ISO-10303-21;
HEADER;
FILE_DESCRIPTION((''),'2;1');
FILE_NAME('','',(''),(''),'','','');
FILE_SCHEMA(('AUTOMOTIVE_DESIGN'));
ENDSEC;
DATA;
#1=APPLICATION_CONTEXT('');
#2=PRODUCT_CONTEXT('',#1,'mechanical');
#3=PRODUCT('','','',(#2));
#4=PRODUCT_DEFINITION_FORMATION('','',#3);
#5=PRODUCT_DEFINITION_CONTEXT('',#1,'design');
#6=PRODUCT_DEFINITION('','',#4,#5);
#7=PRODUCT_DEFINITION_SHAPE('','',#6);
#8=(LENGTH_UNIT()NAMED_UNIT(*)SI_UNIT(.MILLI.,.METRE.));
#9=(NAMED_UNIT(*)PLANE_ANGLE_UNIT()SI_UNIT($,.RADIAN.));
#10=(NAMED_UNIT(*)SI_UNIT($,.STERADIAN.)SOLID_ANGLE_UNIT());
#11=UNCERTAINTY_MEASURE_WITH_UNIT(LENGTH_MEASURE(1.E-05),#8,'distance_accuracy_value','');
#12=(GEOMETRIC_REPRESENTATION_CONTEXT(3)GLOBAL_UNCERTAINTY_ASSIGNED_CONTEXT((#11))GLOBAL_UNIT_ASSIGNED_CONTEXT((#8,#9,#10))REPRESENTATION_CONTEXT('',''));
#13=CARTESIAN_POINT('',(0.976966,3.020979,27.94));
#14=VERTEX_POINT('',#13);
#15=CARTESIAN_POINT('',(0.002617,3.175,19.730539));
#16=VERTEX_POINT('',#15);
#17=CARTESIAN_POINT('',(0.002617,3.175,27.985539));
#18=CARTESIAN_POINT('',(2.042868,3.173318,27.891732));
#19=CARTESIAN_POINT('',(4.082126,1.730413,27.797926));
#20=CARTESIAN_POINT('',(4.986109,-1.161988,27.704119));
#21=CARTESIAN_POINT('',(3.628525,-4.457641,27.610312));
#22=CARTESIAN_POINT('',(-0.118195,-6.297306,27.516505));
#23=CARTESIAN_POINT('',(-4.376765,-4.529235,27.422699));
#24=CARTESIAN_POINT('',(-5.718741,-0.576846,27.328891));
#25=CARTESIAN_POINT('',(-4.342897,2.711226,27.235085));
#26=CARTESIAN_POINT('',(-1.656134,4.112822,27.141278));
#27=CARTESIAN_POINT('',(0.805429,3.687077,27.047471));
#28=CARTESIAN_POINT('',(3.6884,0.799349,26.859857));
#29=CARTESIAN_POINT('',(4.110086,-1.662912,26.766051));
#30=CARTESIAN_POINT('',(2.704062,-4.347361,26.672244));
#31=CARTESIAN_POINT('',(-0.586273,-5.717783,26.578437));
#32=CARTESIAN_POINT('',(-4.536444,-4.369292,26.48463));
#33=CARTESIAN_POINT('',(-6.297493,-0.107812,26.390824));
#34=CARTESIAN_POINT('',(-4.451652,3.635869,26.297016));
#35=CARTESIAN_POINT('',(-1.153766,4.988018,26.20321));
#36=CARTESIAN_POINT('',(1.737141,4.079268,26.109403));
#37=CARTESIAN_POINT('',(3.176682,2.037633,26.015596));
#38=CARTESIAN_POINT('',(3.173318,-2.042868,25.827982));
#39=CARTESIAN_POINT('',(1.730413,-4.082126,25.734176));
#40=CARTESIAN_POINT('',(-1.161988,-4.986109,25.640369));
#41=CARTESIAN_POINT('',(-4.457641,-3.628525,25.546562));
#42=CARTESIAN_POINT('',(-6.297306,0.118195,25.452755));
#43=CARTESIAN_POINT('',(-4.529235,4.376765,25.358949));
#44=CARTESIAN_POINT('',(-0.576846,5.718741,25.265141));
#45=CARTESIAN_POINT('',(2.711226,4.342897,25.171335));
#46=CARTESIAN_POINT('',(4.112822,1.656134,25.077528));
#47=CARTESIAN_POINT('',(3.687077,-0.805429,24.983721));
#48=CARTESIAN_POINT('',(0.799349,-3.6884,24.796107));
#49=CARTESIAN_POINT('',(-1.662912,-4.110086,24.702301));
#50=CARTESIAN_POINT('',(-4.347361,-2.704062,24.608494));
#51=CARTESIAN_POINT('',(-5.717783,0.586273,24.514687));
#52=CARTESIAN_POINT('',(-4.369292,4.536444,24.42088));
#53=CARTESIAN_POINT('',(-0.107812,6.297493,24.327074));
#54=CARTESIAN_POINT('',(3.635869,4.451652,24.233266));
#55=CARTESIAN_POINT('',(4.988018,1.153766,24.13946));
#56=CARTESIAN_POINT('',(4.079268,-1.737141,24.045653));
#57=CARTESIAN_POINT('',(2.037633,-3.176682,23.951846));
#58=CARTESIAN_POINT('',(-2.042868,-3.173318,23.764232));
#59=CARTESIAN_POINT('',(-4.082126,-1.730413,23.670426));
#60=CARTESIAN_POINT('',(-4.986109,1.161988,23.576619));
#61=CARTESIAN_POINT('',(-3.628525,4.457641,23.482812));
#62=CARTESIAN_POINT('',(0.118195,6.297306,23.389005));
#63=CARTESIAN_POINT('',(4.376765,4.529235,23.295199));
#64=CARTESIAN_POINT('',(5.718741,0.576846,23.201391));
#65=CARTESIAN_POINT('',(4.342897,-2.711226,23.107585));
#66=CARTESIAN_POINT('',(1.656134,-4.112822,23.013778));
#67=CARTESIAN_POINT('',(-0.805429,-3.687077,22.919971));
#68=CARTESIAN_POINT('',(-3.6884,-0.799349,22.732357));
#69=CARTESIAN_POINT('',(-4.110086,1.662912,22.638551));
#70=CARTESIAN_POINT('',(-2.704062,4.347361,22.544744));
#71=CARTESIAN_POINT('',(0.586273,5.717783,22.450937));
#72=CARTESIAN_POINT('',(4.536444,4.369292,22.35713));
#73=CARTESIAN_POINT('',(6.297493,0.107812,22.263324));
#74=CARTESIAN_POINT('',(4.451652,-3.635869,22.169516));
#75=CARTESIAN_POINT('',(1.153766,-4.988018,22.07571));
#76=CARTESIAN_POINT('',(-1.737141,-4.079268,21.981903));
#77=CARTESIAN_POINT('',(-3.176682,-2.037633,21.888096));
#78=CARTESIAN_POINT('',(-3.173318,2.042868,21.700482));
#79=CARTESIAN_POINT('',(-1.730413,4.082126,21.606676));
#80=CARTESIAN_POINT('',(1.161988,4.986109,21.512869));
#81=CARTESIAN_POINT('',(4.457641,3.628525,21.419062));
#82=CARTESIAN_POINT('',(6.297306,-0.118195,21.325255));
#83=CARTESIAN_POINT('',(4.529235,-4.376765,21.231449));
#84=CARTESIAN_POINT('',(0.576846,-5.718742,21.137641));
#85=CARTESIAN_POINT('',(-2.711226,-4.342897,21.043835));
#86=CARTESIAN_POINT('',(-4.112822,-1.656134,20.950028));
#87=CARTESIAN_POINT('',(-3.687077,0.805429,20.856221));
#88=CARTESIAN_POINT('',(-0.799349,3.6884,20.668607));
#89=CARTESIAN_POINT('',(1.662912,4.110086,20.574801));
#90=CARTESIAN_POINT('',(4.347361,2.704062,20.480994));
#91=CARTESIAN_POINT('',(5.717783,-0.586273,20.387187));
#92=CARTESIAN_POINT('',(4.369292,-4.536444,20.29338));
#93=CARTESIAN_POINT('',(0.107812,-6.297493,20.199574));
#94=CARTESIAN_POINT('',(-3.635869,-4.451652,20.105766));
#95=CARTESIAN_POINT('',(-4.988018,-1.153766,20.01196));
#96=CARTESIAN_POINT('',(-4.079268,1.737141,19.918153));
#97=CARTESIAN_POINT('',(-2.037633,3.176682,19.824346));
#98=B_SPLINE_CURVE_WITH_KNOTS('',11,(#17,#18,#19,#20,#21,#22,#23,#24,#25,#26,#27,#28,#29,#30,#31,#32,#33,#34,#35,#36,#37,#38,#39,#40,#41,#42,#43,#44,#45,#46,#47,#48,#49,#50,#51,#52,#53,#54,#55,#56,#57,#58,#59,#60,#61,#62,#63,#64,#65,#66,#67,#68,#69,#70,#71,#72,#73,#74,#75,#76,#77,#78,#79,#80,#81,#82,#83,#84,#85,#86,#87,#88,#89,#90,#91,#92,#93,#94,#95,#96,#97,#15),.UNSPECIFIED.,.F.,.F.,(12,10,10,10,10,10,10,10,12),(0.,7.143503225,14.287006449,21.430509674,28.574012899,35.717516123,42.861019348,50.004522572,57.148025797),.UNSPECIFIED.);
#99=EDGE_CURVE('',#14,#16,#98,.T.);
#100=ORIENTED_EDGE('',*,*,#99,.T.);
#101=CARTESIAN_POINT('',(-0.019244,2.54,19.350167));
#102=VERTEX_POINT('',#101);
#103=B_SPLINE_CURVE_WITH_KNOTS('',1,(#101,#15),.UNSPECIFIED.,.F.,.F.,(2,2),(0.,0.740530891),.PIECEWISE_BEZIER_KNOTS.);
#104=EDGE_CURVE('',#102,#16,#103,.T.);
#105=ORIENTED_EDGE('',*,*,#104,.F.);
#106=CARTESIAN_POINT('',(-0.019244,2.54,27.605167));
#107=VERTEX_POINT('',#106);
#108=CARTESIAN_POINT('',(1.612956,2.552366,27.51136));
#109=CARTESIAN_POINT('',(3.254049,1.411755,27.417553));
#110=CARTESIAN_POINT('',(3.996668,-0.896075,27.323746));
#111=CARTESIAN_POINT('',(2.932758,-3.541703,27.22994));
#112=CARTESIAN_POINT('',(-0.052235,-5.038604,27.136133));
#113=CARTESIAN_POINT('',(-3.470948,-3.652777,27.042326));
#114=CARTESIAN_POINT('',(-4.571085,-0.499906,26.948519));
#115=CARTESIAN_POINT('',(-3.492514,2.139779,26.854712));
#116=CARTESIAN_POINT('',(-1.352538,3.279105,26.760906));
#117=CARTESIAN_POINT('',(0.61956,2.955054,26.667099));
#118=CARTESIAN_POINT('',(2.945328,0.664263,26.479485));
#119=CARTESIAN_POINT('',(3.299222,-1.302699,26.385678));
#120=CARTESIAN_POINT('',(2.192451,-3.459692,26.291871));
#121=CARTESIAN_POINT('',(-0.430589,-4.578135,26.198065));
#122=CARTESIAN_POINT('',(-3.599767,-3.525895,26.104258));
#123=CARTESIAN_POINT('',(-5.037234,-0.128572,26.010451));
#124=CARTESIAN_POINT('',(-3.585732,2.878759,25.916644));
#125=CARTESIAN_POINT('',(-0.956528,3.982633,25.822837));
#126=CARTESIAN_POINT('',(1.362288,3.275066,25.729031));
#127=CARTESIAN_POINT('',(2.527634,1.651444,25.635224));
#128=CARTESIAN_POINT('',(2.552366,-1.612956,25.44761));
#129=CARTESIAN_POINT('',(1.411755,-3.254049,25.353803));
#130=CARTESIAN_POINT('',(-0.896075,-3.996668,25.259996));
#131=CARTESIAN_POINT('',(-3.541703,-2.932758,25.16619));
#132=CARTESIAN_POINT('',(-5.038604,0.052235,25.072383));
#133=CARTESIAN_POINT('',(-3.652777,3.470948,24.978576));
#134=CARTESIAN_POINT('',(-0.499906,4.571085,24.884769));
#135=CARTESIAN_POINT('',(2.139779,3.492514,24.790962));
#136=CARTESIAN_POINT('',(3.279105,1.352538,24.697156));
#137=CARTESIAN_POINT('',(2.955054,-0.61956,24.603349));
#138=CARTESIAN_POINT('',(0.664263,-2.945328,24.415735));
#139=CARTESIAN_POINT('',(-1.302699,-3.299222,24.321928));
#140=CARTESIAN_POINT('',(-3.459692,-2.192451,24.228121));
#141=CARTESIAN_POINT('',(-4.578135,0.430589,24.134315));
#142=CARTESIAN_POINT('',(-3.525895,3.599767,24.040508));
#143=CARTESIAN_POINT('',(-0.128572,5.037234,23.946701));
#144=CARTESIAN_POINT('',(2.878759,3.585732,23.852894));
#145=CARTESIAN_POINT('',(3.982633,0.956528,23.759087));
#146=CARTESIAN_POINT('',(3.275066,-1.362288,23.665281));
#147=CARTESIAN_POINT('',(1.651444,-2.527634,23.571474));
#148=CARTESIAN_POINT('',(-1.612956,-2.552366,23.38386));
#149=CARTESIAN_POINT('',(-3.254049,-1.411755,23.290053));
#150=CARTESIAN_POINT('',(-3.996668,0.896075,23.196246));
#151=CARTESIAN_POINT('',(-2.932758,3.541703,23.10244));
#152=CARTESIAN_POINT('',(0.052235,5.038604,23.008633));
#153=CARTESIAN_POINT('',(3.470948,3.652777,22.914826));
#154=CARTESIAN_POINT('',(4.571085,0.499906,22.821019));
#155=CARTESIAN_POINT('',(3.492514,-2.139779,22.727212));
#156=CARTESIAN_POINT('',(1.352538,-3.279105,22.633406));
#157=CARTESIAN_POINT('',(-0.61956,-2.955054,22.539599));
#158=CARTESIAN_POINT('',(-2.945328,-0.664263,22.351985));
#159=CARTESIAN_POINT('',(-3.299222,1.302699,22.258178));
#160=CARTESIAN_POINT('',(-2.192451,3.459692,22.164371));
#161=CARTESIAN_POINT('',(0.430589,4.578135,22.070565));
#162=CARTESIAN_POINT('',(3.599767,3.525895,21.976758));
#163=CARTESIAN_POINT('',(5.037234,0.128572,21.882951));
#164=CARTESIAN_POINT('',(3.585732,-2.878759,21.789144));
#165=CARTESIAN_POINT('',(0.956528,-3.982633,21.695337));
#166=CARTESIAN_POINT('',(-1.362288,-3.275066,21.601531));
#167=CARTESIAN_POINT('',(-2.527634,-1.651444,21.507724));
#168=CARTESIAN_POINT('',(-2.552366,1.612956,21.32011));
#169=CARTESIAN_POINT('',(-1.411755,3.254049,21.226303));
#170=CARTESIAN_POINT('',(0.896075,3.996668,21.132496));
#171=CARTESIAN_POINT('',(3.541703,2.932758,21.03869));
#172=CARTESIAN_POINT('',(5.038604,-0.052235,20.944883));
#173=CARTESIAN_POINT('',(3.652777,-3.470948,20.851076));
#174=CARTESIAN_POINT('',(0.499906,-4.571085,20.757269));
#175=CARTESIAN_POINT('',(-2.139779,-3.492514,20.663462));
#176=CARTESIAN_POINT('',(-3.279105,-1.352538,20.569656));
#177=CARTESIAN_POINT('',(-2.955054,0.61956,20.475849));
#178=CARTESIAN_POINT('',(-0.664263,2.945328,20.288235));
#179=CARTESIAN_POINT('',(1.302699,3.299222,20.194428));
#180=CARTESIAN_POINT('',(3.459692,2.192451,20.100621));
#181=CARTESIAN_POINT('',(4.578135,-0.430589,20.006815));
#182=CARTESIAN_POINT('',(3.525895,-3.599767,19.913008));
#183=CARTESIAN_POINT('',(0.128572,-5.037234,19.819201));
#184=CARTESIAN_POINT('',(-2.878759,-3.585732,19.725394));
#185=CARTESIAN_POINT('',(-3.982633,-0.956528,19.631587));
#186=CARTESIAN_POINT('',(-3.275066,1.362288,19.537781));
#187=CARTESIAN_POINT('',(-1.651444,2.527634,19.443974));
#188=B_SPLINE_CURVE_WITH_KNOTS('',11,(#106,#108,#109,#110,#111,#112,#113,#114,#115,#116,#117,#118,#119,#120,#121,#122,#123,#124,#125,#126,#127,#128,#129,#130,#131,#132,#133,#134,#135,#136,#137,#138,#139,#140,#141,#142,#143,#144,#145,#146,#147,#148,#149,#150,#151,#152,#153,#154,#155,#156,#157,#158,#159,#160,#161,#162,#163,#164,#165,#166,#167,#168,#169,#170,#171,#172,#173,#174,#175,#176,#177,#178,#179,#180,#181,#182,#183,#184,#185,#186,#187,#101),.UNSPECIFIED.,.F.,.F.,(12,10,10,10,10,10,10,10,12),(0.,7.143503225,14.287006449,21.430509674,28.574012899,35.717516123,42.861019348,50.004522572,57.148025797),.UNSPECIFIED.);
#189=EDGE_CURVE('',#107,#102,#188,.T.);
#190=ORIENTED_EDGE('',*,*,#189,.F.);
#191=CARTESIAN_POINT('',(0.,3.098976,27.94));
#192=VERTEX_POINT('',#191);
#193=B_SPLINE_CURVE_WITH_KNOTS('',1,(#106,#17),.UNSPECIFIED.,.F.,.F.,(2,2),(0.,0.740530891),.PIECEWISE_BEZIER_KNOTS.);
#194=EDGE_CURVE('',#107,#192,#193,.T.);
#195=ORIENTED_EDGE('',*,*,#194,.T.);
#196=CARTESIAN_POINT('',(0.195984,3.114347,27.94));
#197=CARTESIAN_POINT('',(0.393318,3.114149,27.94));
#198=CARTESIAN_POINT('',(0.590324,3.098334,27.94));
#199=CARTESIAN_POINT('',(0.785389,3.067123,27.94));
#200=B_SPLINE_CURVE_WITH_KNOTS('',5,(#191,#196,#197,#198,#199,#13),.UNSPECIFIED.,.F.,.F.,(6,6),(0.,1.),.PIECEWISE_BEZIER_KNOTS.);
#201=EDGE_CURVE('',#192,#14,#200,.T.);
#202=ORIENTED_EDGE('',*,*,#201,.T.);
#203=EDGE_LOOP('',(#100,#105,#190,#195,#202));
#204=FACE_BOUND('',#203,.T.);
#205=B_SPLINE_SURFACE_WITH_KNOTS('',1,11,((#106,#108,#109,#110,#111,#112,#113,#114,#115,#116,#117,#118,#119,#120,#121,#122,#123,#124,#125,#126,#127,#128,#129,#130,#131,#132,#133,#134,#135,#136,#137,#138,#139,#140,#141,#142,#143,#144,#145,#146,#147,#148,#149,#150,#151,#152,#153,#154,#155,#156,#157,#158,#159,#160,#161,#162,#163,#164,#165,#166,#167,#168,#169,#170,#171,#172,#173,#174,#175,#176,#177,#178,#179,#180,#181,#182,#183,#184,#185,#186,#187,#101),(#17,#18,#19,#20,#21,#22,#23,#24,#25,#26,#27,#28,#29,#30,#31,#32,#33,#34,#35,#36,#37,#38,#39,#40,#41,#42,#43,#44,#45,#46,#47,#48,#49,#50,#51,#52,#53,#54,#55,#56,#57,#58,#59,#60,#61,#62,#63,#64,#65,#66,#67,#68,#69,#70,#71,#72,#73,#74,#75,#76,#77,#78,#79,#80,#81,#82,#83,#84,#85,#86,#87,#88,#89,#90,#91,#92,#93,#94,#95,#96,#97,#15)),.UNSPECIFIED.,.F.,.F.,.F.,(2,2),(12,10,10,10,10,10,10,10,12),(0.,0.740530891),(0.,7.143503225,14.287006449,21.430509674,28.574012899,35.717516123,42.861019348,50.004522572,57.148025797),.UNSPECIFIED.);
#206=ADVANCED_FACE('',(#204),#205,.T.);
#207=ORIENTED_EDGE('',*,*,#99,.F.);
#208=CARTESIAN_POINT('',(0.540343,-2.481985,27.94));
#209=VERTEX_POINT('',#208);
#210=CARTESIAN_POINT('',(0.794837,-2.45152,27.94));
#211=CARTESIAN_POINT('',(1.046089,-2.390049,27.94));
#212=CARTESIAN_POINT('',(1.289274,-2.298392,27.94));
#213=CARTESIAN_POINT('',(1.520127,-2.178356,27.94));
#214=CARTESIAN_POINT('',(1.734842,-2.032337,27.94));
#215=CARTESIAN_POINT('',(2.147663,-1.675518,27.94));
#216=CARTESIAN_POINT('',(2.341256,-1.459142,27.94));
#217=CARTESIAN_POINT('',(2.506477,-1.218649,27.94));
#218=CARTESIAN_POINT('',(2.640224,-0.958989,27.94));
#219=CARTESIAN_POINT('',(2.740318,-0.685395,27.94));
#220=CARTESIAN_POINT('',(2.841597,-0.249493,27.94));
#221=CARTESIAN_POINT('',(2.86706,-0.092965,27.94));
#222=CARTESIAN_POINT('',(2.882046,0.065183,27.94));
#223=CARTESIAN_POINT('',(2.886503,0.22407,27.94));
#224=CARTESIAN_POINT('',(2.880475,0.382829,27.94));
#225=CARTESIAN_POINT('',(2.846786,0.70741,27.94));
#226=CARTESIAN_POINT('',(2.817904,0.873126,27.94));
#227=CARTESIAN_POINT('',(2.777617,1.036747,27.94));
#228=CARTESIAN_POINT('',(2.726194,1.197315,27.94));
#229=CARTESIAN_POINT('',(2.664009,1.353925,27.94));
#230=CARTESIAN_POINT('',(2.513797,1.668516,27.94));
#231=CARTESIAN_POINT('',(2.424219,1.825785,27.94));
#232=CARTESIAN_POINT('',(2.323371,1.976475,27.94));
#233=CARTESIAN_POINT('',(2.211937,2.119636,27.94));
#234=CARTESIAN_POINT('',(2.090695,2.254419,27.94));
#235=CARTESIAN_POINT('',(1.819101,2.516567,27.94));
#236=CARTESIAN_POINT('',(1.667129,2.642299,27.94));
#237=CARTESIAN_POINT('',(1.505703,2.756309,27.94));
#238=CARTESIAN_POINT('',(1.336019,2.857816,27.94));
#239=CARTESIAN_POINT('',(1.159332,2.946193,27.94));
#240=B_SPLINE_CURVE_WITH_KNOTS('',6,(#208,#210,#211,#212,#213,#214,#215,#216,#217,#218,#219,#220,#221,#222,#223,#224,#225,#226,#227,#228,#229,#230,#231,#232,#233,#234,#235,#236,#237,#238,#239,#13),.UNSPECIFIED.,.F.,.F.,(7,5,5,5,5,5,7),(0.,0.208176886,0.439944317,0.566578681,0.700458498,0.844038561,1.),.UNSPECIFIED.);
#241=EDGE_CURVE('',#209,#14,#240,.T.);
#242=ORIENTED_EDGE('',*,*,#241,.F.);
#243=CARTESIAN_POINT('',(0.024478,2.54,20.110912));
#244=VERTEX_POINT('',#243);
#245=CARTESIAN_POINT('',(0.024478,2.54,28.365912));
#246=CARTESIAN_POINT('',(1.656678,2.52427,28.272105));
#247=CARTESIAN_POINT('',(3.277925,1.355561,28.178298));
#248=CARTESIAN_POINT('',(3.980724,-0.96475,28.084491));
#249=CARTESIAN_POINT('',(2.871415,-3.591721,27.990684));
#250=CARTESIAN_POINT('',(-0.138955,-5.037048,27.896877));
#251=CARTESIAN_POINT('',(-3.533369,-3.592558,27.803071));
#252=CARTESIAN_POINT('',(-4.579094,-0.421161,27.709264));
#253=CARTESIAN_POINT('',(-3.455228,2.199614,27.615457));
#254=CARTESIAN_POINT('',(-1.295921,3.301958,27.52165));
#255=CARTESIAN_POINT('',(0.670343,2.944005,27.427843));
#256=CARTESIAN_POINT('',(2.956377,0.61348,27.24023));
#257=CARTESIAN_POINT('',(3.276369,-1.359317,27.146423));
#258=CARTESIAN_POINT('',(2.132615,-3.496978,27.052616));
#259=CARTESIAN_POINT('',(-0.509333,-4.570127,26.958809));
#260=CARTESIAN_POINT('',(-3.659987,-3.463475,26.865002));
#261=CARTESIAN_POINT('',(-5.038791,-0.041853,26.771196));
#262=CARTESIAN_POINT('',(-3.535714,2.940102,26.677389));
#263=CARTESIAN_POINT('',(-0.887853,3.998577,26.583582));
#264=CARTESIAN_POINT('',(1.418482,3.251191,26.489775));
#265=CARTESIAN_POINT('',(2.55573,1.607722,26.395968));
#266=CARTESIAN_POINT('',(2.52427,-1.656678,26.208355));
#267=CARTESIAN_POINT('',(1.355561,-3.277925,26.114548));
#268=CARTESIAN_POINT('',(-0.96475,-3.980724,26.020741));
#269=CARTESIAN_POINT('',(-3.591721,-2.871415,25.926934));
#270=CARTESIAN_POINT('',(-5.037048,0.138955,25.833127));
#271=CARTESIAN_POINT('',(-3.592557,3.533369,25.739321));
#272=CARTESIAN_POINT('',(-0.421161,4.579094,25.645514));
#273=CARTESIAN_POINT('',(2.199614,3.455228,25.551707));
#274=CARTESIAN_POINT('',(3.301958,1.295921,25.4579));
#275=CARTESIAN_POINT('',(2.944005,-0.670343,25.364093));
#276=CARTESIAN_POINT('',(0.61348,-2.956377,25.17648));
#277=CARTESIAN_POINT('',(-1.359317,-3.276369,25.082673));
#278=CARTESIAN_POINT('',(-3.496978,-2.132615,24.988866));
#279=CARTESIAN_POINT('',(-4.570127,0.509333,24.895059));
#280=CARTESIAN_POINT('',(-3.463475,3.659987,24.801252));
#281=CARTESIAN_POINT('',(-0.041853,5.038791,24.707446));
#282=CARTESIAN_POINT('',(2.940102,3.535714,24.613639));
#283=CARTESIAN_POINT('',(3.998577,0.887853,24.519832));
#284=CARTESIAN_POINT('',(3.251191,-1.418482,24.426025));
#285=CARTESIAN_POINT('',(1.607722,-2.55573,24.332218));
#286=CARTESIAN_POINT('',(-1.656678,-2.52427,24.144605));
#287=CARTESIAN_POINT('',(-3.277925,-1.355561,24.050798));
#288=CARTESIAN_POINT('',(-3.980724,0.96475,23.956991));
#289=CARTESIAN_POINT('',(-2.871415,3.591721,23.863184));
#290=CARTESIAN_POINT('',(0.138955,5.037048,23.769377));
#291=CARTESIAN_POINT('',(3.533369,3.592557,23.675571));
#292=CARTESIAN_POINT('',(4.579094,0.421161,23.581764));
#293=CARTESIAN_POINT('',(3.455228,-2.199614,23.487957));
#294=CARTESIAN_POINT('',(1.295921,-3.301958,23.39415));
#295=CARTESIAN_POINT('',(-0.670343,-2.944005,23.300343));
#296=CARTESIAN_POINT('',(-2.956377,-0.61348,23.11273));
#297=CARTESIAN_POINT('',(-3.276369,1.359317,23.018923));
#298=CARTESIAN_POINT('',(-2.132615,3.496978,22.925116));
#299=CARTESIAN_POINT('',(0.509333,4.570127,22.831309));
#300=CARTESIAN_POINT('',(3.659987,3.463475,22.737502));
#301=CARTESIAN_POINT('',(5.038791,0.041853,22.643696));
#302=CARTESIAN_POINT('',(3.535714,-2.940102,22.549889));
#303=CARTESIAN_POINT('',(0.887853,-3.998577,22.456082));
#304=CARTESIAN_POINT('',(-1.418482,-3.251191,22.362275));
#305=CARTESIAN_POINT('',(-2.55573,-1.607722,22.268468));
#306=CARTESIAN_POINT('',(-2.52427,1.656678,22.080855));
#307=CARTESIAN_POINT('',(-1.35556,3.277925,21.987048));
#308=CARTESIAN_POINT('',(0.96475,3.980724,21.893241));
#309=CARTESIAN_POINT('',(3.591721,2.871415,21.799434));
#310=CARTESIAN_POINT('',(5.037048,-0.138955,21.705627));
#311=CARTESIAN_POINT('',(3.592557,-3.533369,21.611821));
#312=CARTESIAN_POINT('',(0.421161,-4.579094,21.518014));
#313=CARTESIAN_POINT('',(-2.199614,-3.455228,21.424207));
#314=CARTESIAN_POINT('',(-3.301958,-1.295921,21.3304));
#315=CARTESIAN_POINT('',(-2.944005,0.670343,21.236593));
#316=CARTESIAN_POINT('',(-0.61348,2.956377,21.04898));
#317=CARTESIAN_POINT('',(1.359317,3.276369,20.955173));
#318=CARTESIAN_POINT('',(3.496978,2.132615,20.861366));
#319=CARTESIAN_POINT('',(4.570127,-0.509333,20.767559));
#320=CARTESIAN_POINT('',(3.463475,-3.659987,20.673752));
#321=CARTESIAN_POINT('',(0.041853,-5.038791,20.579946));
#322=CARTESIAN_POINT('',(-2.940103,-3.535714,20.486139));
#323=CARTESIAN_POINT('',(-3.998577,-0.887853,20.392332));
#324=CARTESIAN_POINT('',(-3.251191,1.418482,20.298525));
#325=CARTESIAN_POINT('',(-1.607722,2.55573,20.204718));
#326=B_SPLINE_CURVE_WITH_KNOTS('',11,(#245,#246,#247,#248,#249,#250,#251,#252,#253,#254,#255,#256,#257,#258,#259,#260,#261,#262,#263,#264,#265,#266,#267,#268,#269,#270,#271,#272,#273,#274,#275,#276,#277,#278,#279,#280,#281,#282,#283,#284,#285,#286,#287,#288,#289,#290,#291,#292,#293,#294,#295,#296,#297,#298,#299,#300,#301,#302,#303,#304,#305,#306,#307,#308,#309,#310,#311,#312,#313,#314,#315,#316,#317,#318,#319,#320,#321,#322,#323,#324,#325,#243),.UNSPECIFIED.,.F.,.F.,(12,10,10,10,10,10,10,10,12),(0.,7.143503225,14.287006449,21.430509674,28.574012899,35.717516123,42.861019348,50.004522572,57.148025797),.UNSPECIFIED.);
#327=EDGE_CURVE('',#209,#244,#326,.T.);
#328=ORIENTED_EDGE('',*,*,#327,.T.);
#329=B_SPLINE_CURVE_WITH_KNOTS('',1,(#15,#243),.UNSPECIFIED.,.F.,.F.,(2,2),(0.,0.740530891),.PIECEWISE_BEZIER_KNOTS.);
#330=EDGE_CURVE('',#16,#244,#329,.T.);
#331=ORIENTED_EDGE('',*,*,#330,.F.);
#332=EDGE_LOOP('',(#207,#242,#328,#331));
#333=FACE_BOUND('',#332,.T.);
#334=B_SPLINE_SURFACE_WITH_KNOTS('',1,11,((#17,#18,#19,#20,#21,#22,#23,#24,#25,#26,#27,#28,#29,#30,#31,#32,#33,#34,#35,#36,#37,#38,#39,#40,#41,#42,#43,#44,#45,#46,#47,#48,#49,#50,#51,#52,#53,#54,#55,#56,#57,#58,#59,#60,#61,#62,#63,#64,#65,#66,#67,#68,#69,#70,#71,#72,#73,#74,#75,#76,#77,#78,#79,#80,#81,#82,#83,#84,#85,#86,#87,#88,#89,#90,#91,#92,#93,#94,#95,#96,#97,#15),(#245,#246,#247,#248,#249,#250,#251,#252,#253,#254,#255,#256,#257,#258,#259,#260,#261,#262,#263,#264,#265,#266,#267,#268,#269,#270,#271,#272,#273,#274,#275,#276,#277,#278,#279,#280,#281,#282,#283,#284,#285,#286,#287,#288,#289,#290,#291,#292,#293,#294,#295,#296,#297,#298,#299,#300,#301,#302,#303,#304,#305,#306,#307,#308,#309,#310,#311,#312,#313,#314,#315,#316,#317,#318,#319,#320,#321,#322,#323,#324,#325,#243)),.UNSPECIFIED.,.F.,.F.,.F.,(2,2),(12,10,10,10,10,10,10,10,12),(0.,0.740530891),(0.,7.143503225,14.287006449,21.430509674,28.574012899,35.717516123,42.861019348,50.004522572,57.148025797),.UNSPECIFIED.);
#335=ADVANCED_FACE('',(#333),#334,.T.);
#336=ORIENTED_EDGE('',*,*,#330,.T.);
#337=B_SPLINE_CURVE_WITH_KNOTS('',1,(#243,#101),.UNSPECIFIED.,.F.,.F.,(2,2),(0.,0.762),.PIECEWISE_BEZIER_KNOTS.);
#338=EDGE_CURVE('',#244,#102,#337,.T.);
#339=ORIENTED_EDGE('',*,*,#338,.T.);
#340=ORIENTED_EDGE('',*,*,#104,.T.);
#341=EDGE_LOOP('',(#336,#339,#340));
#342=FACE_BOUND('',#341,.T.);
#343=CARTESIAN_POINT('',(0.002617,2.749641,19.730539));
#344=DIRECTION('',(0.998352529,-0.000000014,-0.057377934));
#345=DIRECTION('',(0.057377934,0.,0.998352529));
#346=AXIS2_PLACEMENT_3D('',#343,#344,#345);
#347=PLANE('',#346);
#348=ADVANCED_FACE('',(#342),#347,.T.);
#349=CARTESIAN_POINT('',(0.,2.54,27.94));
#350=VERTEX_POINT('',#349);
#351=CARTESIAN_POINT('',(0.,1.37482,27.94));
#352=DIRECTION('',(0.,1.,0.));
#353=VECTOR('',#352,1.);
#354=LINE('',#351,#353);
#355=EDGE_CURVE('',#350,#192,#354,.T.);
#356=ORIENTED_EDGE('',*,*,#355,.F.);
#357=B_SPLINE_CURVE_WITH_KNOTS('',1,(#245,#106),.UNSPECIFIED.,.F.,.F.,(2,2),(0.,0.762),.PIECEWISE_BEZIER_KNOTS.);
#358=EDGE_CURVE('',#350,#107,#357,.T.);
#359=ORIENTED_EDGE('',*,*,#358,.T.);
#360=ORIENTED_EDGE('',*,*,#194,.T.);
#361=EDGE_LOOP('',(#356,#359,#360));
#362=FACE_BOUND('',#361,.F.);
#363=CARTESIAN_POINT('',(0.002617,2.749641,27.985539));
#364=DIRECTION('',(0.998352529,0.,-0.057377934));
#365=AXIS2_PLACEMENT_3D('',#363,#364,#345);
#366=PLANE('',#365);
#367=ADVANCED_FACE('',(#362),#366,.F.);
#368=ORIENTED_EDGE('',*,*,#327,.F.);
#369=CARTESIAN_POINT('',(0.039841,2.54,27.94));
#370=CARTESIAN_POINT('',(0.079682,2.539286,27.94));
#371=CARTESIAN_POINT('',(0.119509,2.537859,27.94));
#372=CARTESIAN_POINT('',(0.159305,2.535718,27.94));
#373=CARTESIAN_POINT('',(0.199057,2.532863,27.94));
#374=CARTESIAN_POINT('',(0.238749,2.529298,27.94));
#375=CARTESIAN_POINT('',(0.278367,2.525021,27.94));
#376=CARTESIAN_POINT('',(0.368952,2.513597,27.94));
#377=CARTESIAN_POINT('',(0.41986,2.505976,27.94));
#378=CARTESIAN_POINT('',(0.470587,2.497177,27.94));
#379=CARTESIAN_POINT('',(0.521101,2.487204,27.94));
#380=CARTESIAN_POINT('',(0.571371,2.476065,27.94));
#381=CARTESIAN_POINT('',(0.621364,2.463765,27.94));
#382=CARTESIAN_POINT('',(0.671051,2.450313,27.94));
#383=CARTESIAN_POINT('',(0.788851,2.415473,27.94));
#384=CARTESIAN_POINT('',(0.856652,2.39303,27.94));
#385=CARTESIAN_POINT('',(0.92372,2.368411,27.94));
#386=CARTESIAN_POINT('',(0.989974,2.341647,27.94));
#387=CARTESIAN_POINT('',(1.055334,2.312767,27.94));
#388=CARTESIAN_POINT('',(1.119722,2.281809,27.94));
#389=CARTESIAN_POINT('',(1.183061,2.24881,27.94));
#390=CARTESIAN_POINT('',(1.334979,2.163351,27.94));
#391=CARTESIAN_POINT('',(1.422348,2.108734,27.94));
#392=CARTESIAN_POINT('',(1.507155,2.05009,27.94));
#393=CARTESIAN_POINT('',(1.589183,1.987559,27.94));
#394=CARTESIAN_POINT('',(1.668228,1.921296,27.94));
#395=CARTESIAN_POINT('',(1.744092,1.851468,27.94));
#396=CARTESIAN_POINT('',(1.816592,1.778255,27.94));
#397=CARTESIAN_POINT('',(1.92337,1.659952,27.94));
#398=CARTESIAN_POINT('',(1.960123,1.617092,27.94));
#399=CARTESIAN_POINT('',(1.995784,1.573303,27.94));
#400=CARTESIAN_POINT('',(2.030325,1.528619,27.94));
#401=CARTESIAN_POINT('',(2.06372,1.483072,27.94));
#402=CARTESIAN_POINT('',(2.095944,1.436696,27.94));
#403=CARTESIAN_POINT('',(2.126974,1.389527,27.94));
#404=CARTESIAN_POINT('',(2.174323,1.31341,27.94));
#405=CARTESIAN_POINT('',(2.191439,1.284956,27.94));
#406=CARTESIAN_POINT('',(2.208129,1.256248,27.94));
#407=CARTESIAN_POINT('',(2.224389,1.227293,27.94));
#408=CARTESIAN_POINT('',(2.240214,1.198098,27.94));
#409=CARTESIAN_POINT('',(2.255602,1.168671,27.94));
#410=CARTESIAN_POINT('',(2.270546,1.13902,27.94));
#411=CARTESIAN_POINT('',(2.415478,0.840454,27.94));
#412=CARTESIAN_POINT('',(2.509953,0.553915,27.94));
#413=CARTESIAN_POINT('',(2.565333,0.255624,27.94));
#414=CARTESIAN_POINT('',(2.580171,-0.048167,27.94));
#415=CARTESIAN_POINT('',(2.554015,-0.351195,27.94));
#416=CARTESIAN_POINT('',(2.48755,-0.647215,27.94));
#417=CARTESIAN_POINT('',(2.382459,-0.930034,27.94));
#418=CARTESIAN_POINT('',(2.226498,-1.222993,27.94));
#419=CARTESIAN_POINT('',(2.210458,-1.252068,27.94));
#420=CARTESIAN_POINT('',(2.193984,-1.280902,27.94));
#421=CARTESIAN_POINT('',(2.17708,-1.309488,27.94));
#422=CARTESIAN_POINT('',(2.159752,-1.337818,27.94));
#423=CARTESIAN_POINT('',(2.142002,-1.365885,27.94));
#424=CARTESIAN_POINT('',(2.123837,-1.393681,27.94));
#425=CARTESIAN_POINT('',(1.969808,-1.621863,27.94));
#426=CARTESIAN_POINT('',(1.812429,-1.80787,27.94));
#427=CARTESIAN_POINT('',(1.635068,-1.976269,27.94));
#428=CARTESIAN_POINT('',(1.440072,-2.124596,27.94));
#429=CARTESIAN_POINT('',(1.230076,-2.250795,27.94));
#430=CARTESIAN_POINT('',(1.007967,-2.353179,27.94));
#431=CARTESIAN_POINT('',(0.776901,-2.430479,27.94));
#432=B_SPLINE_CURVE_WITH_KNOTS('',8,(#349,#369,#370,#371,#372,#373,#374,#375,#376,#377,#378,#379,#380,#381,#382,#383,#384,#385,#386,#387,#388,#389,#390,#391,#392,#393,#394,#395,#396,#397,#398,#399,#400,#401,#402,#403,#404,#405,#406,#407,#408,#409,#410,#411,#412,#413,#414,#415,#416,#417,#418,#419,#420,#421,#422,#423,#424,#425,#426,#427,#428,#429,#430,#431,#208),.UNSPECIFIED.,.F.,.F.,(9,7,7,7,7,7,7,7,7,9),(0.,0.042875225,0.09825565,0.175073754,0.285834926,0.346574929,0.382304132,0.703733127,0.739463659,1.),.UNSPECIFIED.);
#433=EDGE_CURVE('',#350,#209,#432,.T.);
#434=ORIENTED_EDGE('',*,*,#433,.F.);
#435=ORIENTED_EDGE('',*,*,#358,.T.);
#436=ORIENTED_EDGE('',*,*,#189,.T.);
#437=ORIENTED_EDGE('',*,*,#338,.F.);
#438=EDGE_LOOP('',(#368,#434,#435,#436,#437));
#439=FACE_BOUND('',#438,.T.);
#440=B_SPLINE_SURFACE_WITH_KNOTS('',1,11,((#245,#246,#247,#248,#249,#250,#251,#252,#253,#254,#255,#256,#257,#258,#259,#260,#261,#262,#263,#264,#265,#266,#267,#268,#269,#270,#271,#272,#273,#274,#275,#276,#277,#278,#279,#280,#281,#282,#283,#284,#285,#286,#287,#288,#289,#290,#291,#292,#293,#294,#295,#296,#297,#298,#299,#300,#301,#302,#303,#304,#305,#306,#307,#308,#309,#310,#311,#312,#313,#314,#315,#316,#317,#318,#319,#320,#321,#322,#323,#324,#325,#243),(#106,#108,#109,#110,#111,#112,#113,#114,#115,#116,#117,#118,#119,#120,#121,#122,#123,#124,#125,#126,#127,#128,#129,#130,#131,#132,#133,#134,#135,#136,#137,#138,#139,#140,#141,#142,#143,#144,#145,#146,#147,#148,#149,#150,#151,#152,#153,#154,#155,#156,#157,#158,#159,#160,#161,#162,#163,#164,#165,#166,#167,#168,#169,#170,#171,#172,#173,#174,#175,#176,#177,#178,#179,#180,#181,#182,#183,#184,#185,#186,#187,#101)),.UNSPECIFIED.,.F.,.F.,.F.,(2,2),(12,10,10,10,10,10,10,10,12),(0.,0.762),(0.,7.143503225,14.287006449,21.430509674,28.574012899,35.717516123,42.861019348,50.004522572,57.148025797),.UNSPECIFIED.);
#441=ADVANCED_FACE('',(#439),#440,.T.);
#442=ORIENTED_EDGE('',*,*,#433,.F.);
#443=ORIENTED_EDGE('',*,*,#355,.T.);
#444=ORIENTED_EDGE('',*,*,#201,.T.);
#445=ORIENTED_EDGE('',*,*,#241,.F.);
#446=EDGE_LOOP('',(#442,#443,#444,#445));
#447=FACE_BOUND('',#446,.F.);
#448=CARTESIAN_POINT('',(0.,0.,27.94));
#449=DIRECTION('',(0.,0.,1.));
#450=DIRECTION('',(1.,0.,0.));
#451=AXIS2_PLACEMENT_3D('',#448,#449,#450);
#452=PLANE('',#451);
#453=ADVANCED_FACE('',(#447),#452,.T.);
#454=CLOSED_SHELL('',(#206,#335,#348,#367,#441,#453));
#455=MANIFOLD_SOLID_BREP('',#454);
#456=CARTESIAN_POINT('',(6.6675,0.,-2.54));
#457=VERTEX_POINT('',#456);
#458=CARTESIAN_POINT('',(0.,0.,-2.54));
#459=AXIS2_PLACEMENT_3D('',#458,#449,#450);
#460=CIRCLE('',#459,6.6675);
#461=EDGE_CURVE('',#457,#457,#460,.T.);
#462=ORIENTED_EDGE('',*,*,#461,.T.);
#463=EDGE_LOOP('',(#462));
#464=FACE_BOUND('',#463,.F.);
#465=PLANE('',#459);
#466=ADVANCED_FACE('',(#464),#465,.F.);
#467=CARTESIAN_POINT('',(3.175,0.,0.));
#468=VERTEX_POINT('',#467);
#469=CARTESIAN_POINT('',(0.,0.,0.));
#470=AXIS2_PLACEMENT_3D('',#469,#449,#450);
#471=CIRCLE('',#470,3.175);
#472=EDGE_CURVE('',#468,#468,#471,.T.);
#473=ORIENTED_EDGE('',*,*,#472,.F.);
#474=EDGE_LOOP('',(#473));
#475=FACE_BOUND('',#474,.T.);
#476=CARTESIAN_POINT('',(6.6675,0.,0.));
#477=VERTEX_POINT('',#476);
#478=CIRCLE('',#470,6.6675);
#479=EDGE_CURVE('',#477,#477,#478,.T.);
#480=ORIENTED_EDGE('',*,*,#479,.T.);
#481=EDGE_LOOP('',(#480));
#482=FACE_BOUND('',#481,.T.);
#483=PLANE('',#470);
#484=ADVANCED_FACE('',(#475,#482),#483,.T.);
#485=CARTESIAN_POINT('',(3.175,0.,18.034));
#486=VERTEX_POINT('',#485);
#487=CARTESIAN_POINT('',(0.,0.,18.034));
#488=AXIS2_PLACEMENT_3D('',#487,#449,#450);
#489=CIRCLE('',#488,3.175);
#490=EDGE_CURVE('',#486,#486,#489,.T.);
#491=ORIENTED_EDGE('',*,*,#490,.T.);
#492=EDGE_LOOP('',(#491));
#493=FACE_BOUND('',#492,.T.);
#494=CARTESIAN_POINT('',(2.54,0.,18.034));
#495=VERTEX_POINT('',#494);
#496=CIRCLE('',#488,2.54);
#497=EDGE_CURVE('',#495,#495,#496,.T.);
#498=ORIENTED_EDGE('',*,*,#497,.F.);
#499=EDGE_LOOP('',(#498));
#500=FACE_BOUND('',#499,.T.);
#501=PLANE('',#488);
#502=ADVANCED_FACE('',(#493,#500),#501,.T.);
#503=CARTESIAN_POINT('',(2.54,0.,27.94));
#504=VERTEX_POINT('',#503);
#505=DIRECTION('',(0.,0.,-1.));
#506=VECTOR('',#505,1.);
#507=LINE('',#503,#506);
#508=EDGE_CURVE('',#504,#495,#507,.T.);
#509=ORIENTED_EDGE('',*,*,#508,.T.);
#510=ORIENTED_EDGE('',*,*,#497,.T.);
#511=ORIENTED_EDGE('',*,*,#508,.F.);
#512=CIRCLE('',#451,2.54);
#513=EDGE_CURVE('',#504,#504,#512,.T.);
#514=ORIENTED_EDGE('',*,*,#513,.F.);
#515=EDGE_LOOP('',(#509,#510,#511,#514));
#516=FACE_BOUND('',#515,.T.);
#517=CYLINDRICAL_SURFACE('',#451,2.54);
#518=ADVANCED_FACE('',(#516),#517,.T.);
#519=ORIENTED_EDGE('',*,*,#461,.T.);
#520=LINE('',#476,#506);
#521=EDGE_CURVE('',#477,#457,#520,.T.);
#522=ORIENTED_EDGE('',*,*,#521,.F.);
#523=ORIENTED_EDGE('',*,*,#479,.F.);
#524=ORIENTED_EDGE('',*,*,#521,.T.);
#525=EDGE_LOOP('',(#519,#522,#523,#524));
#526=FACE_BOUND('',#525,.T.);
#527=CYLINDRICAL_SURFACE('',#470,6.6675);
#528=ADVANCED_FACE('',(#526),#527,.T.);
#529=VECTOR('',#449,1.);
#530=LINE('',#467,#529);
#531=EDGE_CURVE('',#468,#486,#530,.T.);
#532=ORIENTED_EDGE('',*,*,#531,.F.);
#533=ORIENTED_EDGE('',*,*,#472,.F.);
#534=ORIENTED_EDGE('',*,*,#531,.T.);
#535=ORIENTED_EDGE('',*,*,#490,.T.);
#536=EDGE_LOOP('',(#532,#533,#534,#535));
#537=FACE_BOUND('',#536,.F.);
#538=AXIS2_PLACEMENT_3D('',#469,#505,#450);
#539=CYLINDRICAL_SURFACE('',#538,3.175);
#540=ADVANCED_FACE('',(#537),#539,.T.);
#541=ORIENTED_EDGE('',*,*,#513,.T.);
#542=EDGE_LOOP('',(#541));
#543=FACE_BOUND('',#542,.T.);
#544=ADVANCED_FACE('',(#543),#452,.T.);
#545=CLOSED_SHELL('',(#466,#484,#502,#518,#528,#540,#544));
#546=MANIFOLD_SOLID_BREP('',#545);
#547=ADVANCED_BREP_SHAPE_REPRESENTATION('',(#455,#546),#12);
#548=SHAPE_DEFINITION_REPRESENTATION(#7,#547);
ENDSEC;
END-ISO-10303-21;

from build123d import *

# Parameters (mm, degrees)
SKETCH1_R           = 3.175
BOSS_EXTRUDE1_DEPTH = 27.94
SKETCH2_R           = 6.6675
BOSS_EXTRUDE2_DEPTH = 2.54
SKETCH3_R           = 3.175
SKETCH3_R_2         = 2.54
CUT_EXTRUDE1_DEPTH  = 9.906
SWEEP1_PITCH        = 0.917222222
SWEEP1_HEIGHT       = 8.255
SWEEP1_RADIUS       = 2.54
SWEEP1_START_ANGLE  = 90
SKETCH6_W           = 2.025979595
SKETCH6_H           = 0.581412662


with BuildPart() as part:
    # Sketch1 → Boss-Extrude1 (new body)
    with BuildSketch(Plane.XY):
        Circle(SKETCH1_R)
    extrude(amount=BOSS_EXTRUDE1_DEPTH)

    # Sketch2 → Boss-Extrude2 (add)
    with BuildSketch(Plane.XY):
        Circle(SKETCH2_R)
    extrude(amount=-BOSS_EXTRUDE2_DEPTH)

    # Sketch3 → Cut-Extrude1 (cut)
    with BuildSketch(Plane.XY.offset(27.94)):
        Circle(SKETCH3_R)
        Circle(SKETCH3_R_2, mode=Mode.SUBTRACT)
    extrude(amount=-CUT_EXTRUDE1_DEPTH, mode=Mode.SUBTRACT)


with BuildPart() as body_2:
    # Sweep1: sweep along a helix
    with BuildLine() as sweep1_path:
        add(Helix(SWEEP1_PITCH, SWEEP1_HEIGHT, SWEEP1_RADIUS, center=(0, 0, 27.94), direction=(0, 0, -1), mode=Mode.PRIVATE).rotate(Axis((0, 0, 27.94), (0, 0, -1)), SWEEP1_START_ANGLE))
    # Sketch5 → Sweep1 (sweep)
    with BuildSketch(Plane(origin=(0, 2.54, 19.685), x_dir=(-0.057377934, 0, -0.998352529), z_dir=(0.998352529, 0, -0.057377934))):
        Polygon((-0.42661441, 0), (0.33538559, 0), (-0.04561441, 0.635), align=None)
    sweep(path=sweep1_path.line, is_frenet=True)

    # Sketch6 → Cut-Revolve1 (revolve, cut)
    with BuildSketch(Plane(origin=(0, 0, 0), x_dir=(1, 0, 0), z_dir=(0, 1, 0))):
        with Locations((2.279143785, -28.230706331)):
            Rectangle(SKETCH6_W, SKETCH6_H)
    revolve(axis=Axis((0, 0, 0), (0, 0, 1)), mode=Mode.SUBTRACT)


solid = Compound([part.part, body_2.part])
